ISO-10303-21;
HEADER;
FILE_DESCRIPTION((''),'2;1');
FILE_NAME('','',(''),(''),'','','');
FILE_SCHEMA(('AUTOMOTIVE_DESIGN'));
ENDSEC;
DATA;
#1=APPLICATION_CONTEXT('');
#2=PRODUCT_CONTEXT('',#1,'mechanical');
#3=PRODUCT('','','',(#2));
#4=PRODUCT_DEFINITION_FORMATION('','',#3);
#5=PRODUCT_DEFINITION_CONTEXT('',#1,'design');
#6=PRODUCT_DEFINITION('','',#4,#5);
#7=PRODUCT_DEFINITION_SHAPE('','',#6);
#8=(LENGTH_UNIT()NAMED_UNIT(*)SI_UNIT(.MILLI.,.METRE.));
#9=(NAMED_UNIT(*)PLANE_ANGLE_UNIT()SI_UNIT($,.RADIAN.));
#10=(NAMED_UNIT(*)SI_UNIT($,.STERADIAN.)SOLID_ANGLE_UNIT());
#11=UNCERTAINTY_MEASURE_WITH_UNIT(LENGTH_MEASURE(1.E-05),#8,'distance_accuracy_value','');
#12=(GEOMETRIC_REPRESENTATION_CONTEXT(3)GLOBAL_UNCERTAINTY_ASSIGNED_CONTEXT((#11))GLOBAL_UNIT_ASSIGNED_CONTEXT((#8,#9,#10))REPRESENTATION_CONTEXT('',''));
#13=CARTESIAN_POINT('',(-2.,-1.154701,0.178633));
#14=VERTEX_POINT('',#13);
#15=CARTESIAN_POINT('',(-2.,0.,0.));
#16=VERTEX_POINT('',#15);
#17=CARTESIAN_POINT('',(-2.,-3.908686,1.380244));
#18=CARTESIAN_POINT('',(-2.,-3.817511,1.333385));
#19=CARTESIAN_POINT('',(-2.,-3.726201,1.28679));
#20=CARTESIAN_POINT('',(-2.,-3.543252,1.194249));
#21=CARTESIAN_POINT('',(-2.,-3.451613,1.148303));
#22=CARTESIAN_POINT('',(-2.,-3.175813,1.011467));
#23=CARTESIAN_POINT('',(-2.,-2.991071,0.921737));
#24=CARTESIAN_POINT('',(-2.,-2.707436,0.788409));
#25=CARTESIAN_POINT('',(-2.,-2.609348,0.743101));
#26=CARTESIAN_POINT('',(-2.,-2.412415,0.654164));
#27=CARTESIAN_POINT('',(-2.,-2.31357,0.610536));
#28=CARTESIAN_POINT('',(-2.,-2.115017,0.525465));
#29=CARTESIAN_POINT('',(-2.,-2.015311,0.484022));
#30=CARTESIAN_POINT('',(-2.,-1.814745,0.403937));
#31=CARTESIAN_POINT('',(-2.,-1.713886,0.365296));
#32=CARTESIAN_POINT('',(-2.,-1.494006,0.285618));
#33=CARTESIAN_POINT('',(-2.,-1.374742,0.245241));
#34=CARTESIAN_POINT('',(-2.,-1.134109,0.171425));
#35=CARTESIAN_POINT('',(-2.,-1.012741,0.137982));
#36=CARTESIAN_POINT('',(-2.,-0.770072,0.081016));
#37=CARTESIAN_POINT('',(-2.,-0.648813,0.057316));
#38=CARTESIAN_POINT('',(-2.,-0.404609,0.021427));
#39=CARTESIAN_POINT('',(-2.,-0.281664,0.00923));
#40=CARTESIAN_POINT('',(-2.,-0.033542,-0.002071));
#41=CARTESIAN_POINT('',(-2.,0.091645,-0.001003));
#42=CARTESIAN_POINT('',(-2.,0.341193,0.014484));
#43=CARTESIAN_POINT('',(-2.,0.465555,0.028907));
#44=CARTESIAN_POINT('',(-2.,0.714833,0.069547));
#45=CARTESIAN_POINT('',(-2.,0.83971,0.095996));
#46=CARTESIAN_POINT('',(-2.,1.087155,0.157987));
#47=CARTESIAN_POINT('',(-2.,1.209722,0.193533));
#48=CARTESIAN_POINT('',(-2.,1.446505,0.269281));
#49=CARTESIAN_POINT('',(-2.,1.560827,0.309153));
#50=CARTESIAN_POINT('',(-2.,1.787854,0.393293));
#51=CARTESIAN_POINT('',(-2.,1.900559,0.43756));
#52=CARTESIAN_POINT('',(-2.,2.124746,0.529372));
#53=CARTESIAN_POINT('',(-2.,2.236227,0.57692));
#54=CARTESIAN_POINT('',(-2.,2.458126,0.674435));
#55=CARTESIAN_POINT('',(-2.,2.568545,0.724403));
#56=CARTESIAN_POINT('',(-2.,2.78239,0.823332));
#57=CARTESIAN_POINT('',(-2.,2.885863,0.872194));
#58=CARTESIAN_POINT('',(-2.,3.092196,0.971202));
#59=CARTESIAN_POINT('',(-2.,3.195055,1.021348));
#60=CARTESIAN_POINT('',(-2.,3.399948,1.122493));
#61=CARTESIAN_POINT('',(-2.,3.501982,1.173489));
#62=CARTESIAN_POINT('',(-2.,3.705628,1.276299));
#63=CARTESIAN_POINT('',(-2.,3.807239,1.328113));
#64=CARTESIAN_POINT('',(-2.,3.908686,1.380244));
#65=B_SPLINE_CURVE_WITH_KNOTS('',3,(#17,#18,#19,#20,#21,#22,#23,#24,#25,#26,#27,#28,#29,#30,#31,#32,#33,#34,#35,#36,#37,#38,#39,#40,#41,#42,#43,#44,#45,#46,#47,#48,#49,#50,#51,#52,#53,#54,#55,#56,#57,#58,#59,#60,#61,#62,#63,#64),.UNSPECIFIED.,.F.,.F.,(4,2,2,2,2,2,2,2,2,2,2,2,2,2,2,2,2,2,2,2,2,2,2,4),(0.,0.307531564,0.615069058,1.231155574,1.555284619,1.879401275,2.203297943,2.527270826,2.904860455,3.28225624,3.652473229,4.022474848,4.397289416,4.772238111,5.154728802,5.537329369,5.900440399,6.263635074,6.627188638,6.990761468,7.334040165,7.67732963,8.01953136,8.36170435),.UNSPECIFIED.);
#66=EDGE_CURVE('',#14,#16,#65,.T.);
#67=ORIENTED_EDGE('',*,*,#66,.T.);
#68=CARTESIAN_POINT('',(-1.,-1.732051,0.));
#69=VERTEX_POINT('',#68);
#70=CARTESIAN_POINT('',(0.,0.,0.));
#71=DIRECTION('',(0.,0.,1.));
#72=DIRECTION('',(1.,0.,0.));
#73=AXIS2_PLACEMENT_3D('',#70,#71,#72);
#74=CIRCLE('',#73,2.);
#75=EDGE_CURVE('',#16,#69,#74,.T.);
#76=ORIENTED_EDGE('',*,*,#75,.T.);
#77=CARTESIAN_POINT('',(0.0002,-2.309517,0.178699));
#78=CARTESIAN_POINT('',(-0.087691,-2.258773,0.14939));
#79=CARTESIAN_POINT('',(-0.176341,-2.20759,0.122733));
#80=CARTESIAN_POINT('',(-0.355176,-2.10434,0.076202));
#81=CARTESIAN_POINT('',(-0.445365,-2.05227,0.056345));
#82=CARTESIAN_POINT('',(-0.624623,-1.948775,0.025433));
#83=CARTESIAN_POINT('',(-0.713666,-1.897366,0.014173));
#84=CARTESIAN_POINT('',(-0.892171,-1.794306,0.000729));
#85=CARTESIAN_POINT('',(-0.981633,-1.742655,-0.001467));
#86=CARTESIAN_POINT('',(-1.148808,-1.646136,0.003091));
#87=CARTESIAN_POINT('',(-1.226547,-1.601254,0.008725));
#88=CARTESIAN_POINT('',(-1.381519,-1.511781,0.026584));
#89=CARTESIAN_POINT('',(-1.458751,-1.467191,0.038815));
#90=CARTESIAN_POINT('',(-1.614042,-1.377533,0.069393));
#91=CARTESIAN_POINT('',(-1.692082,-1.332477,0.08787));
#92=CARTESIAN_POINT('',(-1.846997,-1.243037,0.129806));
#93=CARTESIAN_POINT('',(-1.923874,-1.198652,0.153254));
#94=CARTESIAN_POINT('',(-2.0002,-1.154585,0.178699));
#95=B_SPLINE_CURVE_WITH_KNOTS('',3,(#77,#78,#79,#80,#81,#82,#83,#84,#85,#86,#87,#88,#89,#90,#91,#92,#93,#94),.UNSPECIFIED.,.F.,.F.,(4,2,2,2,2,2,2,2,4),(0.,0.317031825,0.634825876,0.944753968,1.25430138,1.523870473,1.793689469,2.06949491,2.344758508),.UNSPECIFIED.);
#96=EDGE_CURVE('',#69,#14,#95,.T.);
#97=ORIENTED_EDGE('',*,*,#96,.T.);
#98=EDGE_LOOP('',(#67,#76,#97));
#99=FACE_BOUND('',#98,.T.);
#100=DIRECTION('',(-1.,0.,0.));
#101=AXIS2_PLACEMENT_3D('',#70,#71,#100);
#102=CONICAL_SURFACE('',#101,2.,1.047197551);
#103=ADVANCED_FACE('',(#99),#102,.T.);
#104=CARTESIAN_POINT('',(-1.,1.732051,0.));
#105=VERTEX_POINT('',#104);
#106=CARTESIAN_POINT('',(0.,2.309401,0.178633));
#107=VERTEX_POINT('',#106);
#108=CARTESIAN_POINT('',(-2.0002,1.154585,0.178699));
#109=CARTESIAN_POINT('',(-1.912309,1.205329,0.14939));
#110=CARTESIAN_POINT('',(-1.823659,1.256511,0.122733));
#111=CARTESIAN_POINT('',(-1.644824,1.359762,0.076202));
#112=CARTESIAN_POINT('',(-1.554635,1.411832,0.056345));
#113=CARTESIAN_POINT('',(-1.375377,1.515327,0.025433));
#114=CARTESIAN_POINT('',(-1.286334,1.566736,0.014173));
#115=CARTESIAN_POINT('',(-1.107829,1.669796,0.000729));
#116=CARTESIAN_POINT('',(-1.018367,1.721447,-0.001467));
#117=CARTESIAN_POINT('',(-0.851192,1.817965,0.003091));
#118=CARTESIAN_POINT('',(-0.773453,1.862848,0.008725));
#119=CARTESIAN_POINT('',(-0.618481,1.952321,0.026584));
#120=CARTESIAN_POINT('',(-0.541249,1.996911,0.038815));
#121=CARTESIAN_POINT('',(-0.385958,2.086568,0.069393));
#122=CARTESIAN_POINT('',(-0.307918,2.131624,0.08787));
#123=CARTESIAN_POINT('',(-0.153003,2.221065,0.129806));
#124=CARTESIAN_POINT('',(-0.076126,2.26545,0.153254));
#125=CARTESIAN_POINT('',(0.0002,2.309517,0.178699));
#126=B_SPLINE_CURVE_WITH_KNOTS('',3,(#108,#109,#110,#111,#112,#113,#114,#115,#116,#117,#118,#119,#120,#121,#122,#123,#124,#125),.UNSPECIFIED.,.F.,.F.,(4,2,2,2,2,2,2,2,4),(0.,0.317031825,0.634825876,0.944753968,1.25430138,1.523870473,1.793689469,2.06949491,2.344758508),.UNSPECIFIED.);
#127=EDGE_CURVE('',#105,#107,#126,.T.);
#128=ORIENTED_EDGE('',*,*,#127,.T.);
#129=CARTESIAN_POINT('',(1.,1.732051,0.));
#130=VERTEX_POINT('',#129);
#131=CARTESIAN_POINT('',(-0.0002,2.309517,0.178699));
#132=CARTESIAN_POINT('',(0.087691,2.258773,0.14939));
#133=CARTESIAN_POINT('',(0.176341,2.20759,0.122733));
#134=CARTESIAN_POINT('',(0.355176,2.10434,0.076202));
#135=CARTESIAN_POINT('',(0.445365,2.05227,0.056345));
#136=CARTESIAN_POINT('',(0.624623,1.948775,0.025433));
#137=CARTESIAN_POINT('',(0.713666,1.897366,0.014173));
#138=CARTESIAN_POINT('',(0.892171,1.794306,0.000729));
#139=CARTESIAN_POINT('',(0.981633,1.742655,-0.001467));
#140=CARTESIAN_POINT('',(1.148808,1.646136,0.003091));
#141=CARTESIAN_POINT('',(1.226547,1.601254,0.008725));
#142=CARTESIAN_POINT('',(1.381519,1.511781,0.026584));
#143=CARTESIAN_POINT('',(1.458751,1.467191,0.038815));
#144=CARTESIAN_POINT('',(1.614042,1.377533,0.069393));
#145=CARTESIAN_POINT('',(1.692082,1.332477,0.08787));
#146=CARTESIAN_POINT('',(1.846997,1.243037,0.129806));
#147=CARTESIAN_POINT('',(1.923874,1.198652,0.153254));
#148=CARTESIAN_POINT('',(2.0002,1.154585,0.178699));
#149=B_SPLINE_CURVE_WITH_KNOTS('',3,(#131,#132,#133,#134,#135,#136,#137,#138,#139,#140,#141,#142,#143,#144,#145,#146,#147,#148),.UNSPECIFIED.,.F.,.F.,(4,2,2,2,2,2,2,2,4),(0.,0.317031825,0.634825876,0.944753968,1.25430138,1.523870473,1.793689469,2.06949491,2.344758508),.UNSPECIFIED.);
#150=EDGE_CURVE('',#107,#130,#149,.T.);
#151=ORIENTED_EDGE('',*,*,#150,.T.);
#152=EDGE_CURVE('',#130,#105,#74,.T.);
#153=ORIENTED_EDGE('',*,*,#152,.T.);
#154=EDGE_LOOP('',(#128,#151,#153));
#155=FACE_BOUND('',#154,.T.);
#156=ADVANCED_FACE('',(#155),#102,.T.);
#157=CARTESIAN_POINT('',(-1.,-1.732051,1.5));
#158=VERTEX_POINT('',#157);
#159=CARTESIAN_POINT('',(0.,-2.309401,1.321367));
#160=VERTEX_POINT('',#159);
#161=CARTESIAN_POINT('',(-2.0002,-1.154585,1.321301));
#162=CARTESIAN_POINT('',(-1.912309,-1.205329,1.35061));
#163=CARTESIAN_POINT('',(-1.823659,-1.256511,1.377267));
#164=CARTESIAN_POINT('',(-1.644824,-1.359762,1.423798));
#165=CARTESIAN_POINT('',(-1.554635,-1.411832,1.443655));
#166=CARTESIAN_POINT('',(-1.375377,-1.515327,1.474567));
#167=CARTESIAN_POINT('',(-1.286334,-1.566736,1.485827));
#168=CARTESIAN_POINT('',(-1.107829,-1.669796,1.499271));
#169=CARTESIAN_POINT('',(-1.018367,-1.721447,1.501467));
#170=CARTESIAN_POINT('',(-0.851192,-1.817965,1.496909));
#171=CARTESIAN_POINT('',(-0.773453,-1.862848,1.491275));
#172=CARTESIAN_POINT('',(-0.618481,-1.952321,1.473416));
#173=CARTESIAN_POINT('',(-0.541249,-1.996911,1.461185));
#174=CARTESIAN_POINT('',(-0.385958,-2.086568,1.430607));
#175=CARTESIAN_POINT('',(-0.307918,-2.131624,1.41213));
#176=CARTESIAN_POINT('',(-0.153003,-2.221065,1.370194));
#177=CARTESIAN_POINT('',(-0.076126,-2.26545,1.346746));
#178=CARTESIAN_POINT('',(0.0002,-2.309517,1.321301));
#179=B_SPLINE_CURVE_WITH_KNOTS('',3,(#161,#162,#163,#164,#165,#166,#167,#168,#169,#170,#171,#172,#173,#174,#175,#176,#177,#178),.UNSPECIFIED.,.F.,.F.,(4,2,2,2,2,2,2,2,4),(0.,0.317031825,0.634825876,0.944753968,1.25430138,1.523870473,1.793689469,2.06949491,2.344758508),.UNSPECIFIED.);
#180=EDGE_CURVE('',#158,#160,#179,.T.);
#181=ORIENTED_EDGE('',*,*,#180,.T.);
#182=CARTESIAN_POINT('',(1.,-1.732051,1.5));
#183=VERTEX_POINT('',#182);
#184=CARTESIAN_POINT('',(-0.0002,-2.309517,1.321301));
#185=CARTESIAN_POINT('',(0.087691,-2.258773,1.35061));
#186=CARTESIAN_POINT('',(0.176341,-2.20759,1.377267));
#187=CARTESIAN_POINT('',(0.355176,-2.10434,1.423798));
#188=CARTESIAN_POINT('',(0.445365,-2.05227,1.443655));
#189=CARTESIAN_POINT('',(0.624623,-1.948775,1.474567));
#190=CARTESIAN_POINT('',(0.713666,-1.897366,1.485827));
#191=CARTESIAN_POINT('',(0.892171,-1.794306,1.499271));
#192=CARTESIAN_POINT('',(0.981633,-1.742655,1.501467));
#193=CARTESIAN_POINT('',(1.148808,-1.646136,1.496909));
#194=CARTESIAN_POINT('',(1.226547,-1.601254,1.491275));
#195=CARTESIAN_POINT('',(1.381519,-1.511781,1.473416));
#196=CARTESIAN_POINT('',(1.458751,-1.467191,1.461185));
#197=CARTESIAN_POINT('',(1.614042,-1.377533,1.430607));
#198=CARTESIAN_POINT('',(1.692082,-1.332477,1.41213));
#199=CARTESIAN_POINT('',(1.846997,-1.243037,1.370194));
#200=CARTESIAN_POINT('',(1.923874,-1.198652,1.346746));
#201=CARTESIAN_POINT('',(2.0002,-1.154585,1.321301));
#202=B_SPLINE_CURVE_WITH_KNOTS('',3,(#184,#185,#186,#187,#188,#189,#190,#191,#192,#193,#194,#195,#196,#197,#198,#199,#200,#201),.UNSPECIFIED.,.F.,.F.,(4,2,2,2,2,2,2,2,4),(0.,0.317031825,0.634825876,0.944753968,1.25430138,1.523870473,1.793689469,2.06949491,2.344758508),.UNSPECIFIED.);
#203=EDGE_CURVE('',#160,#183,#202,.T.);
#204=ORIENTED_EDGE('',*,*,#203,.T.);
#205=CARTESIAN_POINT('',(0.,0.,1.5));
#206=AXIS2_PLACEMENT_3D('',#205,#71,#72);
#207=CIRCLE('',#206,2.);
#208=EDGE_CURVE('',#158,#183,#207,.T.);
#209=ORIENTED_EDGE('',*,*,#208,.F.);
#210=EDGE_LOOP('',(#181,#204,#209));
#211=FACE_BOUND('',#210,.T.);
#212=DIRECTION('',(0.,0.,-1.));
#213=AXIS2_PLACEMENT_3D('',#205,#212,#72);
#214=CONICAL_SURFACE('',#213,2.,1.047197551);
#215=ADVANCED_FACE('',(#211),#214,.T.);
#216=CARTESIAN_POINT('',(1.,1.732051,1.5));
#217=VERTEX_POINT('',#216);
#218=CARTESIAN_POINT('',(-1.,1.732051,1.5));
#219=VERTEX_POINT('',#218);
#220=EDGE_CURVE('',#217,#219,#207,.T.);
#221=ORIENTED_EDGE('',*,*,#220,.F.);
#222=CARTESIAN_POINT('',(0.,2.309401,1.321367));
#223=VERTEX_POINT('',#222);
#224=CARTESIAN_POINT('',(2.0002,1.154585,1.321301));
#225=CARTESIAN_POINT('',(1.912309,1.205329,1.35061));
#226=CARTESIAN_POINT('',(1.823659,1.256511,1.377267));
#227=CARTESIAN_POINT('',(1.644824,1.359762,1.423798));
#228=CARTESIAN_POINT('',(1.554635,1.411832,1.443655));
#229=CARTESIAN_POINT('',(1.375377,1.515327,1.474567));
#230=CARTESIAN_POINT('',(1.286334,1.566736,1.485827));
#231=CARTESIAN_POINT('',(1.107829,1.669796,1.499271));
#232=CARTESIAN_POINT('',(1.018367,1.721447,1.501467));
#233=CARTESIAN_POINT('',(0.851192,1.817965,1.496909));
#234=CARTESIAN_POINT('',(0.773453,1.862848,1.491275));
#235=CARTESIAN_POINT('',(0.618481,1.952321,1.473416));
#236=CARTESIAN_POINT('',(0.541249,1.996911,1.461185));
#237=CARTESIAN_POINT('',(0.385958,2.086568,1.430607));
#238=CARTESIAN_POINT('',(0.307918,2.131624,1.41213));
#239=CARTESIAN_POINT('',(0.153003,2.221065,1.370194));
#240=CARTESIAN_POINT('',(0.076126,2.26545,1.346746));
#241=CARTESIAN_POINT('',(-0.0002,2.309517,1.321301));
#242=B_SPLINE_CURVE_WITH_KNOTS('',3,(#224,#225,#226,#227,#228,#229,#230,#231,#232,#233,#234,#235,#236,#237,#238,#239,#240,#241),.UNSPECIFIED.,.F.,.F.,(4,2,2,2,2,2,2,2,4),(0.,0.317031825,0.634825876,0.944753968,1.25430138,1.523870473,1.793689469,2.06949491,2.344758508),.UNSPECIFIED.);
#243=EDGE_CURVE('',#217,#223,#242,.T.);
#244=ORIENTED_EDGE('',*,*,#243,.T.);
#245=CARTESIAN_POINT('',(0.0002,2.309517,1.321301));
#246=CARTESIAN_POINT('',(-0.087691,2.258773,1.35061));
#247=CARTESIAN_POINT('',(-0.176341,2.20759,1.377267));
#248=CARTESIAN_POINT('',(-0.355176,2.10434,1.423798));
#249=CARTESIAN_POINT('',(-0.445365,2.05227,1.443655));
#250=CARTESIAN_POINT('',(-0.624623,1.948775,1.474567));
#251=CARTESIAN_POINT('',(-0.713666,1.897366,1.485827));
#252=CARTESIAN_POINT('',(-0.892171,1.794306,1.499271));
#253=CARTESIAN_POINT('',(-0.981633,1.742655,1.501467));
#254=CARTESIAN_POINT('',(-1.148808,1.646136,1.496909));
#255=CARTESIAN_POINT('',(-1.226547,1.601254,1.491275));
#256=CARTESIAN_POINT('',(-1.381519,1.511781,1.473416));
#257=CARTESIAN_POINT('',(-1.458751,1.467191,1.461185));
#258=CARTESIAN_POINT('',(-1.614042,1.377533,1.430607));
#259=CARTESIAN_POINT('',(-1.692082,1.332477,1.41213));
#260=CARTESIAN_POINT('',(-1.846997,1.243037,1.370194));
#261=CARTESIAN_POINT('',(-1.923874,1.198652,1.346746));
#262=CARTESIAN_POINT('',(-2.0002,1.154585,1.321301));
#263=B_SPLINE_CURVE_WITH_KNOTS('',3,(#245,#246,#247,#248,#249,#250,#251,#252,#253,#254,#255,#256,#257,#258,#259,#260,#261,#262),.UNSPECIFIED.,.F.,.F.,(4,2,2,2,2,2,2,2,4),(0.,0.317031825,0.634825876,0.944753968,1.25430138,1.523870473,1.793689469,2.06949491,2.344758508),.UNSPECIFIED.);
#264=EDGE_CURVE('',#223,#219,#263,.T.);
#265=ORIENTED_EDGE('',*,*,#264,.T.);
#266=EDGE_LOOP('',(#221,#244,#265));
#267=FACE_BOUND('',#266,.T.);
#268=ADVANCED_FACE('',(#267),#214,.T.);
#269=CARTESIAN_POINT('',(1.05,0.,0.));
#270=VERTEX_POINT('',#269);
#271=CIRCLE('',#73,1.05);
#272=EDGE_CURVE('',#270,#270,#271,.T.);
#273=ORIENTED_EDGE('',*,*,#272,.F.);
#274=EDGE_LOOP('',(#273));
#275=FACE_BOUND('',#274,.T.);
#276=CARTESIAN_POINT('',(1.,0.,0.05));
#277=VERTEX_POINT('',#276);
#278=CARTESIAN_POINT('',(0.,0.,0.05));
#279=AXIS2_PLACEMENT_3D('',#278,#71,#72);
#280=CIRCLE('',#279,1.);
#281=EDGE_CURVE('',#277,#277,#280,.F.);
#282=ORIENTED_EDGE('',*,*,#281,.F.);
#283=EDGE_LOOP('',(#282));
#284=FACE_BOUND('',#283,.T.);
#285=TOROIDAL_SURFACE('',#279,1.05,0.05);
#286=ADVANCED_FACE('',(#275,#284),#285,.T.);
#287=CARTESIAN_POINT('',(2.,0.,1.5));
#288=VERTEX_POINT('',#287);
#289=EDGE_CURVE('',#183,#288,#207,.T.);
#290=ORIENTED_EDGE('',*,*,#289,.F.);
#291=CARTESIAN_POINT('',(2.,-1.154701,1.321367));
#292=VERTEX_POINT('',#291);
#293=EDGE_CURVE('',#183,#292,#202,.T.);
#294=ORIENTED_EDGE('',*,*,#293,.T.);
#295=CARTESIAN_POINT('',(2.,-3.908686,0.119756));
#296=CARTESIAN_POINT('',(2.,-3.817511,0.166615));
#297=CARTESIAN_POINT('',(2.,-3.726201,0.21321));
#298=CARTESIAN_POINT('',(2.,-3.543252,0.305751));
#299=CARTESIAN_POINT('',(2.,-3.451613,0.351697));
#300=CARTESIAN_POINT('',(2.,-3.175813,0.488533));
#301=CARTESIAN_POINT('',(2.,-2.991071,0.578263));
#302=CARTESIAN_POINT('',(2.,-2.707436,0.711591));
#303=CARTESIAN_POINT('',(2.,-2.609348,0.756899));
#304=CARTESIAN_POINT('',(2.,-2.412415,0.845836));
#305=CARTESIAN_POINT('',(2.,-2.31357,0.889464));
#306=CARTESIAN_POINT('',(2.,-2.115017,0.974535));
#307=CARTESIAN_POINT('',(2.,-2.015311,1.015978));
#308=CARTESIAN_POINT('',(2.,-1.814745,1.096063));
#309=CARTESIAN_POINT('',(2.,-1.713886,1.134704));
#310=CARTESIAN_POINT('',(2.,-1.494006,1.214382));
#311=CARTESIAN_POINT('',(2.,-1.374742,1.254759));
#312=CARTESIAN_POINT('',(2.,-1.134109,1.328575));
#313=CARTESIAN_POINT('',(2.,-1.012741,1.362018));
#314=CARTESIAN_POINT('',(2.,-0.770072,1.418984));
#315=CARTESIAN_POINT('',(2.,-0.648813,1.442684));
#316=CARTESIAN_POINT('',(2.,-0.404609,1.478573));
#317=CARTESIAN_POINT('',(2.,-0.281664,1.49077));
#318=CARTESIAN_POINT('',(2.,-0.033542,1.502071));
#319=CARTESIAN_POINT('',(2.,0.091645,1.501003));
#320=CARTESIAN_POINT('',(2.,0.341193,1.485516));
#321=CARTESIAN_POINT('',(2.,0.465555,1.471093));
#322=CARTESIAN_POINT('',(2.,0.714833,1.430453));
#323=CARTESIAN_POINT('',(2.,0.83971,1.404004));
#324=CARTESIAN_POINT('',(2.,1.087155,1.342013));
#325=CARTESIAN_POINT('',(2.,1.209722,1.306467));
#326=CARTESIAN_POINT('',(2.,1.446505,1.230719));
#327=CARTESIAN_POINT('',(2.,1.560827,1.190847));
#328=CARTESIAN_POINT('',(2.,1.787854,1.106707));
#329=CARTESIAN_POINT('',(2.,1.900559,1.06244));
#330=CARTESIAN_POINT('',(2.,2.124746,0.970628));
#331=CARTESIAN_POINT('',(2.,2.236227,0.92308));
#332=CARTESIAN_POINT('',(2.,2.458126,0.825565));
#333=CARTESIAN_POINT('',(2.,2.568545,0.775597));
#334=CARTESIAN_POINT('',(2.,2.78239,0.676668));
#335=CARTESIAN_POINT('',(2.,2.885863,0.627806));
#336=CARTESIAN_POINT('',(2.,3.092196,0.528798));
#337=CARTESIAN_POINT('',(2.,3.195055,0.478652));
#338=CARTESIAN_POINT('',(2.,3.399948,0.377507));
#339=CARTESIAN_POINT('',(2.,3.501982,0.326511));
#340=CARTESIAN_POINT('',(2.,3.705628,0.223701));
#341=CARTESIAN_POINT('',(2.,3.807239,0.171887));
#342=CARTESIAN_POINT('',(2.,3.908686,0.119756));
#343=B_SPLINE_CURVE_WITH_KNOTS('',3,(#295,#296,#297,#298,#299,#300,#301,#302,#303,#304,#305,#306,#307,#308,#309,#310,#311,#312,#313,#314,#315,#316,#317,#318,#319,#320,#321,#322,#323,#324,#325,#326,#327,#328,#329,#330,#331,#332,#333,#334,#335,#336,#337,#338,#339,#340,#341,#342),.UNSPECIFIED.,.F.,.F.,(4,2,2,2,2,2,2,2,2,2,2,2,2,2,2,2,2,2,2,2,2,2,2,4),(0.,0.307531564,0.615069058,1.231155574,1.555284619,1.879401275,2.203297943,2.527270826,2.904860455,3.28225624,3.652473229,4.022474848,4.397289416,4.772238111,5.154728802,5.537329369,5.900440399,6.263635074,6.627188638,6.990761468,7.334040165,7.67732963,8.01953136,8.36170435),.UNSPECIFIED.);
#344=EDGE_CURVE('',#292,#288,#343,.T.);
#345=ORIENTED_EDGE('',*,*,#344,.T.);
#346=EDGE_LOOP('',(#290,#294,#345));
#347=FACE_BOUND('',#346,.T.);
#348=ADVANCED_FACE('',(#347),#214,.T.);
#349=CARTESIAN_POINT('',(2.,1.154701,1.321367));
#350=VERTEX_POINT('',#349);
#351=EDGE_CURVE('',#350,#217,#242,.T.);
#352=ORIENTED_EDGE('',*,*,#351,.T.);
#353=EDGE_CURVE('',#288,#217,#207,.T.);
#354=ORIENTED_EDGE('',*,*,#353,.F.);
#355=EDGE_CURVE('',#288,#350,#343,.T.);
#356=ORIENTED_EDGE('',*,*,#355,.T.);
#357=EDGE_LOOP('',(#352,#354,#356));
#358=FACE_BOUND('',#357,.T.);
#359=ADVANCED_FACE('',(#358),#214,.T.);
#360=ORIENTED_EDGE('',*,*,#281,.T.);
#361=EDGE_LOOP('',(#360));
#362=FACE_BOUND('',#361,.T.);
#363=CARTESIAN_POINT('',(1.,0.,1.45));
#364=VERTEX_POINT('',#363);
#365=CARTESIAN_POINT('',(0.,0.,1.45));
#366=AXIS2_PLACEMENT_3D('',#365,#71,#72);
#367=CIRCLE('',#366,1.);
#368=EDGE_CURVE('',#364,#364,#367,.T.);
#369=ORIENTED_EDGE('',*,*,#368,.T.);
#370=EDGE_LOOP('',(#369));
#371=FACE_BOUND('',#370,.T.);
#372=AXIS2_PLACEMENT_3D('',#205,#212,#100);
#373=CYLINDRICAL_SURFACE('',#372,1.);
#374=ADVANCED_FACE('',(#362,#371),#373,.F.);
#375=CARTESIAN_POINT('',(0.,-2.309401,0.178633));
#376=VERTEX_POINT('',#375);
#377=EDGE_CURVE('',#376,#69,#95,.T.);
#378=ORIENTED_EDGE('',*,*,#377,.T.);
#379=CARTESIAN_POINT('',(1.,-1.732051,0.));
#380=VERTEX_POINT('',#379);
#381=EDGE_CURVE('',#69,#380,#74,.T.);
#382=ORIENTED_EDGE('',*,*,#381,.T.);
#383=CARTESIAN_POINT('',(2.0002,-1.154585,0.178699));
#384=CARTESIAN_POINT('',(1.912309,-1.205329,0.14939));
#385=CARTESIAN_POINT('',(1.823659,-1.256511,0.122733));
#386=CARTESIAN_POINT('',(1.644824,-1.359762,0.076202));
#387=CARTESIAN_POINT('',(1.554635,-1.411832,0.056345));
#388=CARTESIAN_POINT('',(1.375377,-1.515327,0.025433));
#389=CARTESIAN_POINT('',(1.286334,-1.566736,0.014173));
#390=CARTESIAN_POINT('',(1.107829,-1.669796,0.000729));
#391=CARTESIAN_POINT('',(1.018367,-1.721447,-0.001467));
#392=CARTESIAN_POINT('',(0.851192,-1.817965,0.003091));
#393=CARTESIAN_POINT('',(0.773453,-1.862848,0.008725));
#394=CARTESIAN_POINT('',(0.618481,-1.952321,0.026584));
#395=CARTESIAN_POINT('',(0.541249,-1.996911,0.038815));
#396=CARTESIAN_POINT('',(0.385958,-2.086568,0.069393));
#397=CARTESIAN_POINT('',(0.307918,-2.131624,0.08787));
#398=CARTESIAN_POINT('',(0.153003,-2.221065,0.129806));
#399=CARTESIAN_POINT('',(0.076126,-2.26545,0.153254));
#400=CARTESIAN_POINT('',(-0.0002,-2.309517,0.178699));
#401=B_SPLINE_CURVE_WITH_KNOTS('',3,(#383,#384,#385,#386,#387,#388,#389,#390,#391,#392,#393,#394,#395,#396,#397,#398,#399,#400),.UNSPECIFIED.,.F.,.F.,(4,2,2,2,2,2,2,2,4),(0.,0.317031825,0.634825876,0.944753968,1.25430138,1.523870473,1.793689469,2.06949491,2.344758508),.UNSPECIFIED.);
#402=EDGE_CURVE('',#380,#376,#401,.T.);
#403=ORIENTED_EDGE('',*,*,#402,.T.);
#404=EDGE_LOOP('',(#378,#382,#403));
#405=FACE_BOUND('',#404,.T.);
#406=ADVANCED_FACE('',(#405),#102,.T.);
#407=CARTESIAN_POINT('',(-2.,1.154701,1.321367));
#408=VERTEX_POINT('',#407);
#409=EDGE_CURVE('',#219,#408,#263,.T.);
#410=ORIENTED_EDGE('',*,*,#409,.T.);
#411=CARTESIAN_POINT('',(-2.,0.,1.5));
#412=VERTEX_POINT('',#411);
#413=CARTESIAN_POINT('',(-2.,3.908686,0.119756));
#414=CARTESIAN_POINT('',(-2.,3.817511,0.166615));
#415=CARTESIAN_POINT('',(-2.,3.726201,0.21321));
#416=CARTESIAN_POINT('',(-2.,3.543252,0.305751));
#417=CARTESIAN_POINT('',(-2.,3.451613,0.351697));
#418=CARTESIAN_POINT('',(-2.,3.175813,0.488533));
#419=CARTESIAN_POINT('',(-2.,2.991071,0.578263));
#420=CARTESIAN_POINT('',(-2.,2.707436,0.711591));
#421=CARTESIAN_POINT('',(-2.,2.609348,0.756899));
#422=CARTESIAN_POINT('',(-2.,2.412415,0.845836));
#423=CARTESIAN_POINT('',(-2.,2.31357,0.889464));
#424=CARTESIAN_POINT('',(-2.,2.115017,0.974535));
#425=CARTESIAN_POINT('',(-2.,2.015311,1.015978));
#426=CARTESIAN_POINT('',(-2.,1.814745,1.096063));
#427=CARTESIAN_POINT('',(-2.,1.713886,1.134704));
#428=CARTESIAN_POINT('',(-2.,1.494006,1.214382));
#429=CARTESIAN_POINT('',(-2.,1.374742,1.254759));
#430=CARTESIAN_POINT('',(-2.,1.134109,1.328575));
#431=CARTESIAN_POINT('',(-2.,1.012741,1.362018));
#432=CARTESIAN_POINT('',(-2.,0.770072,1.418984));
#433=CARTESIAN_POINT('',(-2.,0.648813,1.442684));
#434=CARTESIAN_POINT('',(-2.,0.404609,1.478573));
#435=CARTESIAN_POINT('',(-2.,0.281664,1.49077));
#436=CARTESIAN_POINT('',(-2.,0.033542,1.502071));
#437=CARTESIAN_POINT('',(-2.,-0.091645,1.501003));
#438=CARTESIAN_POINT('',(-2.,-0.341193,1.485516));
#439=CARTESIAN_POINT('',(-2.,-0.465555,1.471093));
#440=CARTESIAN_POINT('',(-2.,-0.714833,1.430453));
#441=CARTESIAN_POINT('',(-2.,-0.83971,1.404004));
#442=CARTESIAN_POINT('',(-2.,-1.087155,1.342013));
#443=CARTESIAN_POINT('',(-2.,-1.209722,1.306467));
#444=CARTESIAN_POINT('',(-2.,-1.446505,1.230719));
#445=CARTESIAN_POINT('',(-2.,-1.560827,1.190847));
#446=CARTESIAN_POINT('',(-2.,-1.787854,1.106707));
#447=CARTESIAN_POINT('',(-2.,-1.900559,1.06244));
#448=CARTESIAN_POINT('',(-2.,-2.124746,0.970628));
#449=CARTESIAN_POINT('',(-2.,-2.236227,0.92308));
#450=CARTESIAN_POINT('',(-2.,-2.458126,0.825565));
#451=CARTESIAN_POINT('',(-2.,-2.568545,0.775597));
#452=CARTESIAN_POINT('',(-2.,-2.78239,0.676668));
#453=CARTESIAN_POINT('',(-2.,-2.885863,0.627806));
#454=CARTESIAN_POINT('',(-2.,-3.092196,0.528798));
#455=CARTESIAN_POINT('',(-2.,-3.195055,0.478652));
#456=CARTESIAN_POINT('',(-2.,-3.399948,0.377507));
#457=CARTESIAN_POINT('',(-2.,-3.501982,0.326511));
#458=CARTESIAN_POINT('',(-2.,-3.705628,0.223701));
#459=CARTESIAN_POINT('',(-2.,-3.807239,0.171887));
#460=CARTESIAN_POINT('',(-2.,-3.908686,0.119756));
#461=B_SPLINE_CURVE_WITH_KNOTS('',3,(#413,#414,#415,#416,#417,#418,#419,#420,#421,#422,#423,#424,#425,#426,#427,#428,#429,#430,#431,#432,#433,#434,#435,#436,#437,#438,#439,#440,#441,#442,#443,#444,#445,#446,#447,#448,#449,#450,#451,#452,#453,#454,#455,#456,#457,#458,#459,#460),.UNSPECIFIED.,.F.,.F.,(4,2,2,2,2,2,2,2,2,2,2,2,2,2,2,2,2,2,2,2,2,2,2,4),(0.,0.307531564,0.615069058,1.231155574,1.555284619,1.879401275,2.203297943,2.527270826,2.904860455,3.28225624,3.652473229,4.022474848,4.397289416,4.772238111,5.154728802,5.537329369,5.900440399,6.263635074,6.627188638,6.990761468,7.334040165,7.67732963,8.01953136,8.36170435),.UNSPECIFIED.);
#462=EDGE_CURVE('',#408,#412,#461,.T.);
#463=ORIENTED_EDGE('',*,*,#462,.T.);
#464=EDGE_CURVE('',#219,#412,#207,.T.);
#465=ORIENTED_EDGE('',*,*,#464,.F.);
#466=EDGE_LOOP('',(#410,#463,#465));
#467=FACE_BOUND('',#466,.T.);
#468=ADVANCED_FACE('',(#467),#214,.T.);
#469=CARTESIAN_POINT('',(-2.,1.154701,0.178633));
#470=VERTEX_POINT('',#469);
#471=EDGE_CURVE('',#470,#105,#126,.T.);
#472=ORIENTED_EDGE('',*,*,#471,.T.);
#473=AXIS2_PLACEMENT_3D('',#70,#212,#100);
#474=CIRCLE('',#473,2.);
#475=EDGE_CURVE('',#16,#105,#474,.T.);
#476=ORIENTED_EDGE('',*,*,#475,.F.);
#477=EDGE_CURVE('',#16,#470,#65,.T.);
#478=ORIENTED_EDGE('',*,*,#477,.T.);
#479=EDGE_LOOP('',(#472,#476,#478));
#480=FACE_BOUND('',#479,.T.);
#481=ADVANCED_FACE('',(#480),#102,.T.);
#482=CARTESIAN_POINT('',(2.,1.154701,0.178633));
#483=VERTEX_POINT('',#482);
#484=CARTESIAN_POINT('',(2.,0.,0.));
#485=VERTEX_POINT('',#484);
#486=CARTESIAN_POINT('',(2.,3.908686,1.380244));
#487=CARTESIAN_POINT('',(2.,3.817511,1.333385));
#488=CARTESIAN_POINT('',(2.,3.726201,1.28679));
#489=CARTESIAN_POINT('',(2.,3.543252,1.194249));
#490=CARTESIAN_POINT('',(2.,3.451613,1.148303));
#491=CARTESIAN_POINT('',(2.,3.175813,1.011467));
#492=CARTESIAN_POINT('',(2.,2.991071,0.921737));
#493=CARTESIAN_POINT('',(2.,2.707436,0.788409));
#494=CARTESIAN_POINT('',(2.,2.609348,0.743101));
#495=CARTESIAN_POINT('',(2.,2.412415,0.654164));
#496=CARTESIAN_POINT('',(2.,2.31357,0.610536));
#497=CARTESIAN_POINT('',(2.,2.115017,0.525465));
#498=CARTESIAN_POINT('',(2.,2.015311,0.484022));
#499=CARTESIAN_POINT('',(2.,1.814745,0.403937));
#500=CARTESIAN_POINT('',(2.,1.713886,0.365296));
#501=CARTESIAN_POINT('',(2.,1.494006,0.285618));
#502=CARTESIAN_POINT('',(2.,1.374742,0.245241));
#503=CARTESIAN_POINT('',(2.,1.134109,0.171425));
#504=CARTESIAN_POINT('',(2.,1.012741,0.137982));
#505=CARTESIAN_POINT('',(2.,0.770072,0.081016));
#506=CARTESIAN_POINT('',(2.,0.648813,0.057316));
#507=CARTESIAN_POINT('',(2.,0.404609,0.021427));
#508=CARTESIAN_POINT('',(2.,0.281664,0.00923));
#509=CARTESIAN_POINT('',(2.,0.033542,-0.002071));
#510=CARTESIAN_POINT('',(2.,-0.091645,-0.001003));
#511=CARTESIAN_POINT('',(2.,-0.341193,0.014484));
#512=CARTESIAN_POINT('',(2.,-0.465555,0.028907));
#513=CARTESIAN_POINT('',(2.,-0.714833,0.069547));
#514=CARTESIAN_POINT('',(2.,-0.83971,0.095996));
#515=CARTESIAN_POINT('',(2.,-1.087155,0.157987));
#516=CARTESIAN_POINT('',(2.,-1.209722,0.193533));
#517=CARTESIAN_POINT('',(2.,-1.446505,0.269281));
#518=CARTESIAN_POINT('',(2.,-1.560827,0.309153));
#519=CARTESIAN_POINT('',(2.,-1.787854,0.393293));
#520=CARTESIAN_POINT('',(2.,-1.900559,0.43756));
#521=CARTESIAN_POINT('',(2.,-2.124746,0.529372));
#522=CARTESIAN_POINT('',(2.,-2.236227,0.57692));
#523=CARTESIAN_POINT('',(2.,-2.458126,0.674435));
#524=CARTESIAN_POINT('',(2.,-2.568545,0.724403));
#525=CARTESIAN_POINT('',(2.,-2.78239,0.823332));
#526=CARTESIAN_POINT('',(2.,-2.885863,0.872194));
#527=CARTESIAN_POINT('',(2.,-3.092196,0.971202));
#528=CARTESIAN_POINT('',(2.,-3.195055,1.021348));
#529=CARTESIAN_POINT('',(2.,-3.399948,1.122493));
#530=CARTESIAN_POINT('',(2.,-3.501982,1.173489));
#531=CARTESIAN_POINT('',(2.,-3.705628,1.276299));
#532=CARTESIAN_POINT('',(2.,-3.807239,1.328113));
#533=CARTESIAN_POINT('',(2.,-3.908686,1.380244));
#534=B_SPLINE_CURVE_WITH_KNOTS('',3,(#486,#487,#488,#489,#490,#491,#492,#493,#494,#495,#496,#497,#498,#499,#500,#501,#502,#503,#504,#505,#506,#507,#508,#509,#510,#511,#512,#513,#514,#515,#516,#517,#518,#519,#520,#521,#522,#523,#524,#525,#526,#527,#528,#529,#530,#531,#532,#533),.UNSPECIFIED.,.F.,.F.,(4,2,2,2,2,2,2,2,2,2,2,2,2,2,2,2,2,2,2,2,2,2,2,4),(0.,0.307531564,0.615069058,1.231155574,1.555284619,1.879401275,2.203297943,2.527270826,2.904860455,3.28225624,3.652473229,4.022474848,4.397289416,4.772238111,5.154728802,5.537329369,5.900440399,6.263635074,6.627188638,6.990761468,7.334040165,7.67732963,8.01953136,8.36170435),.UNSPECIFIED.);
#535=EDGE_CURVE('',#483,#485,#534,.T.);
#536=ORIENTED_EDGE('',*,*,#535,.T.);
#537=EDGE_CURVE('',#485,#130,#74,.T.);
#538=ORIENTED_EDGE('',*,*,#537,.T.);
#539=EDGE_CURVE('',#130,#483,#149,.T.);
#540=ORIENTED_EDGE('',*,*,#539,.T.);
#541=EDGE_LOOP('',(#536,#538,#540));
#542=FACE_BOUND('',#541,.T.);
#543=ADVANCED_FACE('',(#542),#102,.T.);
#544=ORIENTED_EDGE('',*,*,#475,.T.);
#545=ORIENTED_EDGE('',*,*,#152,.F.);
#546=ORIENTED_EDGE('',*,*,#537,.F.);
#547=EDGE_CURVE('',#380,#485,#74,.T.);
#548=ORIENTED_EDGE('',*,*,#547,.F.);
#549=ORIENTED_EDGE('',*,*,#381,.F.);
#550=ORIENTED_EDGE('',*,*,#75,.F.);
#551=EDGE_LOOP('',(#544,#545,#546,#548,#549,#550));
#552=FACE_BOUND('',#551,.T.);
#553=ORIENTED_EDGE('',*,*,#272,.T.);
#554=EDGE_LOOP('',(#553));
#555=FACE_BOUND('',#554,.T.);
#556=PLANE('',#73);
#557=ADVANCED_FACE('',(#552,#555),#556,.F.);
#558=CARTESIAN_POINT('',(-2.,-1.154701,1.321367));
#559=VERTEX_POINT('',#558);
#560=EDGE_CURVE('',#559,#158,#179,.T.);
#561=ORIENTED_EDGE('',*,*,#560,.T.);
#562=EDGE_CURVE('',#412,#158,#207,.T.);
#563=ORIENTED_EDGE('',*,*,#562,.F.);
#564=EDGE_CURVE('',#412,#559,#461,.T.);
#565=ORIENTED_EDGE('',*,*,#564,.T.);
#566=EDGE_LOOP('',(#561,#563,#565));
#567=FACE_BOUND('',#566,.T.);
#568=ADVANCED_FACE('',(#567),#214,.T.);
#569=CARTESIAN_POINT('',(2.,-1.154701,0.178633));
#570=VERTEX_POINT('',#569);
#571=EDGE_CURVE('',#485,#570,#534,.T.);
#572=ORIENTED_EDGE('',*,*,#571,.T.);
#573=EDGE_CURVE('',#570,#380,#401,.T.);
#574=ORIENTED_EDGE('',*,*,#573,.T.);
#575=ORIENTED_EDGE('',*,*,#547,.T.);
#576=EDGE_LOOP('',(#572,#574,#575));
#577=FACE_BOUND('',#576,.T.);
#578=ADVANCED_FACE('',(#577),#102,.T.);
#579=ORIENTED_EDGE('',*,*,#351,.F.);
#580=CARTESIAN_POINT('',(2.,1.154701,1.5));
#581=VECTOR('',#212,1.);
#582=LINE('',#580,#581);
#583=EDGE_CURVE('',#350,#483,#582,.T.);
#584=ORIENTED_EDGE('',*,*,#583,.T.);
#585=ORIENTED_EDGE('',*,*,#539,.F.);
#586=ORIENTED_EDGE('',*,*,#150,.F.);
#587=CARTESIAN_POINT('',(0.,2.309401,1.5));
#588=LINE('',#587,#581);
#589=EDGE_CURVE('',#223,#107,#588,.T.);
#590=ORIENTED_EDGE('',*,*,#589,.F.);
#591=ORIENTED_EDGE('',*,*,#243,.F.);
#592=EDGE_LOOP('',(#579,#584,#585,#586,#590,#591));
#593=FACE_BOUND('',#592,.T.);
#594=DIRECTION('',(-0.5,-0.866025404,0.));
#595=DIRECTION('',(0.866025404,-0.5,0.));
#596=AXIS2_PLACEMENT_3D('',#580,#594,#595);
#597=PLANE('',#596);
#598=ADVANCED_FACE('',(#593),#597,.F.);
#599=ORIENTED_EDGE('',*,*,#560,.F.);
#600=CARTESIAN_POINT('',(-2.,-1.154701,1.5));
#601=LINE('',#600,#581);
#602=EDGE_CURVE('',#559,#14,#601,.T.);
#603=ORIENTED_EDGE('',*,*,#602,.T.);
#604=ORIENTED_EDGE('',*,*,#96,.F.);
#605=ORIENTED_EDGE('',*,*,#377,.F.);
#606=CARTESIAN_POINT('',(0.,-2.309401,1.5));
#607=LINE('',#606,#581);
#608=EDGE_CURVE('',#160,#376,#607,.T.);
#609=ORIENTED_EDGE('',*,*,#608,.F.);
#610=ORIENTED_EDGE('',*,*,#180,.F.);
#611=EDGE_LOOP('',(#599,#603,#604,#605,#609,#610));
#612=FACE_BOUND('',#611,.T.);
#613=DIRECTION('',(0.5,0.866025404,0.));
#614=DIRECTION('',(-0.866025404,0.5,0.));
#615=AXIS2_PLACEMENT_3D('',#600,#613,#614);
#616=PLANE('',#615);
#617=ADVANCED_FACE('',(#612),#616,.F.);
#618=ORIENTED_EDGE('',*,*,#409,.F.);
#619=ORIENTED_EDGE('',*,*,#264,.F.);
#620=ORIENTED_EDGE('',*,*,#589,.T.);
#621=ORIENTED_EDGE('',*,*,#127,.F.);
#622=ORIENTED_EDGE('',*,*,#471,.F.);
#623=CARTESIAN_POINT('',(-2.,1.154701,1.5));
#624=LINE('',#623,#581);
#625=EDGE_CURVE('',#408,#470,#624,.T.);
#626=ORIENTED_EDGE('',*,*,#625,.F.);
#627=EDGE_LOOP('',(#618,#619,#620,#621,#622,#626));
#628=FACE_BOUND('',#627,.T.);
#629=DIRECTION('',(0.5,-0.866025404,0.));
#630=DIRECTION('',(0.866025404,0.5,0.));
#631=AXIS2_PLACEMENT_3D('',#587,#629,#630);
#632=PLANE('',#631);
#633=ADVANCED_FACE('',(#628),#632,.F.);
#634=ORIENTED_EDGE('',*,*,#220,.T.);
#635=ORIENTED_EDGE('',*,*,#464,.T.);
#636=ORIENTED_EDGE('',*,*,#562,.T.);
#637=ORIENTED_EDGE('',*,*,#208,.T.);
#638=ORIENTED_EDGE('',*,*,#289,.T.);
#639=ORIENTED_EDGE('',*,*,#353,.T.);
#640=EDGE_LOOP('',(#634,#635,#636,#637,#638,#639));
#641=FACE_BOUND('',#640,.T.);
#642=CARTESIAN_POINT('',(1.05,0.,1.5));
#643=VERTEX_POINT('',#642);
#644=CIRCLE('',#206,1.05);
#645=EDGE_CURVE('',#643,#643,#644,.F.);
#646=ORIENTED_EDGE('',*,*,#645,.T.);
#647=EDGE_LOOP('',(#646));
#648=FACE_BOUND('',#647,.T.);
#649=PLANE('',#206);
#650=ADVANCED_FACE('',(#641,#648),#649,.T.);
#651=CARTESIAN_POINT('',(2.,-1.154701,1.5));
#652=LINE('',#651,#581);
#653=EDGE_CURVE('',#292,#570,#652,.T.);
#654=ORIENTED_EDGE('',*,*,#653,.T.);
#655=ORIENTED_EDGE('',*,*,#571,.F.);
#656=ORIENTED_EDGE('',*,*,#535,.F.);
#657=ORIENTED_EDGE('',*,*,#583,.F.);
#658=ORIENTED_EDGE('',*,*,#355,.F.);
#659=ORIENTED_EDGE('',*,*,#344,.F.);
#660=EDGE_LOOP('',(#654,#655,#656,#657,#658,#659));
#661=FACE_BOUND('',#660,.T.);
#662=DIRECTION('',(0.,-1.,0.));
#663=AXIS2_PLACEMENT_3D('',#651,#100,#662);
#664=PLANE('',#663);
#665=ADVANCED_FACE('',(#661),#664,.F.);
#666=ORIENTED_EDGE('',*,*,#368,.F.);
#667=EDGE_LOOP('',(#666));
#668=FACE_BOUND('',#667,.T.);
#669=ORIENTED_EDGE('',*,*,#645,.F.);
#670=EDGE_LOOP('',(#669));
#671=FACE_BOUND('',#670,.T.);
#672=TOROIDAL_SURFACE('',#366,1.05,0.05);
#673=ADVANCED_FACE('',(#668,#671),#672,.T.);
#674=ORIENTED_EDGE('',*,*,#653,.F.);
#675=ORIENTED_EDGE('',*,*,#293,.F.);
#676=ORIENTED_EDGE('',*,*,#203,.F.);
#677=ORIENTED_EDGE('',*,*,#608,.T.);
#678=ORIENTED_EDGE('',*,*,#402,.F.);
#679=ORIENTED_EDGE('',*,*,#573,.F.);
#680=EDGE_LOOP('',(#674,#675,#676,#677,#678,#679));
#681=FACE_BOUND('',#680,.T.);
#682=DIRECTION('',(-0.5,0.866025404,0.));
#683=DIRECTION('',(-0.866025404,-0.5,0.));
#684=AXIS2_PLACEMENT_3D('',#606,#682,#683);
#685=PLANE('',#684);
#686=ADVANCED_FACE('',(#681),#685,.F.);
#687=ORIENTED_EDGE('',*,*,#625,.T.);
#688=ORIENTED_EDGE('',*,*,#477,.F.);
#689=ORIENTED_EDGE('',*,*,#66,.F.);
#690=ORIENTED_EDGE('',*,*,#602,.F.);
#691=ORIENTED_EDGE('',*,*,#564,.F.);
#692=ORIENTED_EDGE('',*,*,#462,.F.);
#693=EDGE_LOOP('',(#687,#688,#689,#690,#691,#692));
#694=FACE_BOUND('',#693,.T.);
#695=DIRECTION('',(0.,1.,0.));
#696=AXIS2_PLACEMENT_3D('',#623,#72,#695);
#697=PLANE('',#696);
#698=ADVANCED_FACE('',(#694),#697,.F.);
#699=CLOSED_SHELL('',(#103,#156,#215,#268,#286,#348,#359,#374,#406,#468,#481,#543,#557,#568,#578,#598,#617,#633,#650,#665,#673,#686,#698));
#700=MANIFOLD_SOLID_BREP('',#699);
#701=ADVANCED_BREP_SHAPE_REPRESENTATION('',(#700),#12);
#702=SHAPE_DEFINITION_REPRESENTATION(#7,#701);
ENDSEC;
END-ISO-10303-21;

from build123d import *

# Parameters (mm, degrees)
SKETCH1_R           = 1
BOSS_EXTRUDE1_DEPTH = 1.5
SKETCH2_OUTSIDE_W   = 14.186
SKETCH2_OUTSIDE_H   = 14.804
SKETCH2_OUTSIDE_R   = 2
CUT_EXTRUDE1_DEPTH  = 2
CUT_EXTRUDE1_TAPER  = 60
SKETCH3_OUTSIDE_W   = 14.186
SKETCH3_OUTSIDE_H   = 14.804
SKETCH3_OUTSIDE_R   = 2
CUT_EXTRUDE2_DEPTH  = 2
CUT_EXTRUDE2_TAPER  = 60
FILLET1_R           = 0.05


with BuildPart() as part:
    # Sketch1 → Boss-Extrude1 (new body)
    with BuildSketch(Plane.XY):
        Polygon((0, -2.309401077), (2, -1.154700538), (2, 1.154700538), (0, 2.309401077), (-2, 1.154700538), (-2, -1.154700538), align=None)
        Circle(SKETCH1_R, mode=Mode.SUBTRACT)
    extrude(amount=BOSS_EXTRUDE1_DEPTH)

    # Sketch2 outside → Cut-Extrude1 (cut)
    with BuildSketch(Plane.XY.offset(1.5)):
        Rectangle(SKETCH2_OUTSIDE_W, SKETCH2_OUTSIDE_H)
        Circle(SKETCH2_OUTSIDE_R, mode=Mode.SUBTRACT)
    extrude(amount=-CUT_EXTRUDE1_DEPTH, taper=CUT_EXTRUDE1_TAPER, mode=Mode.SUBTRACT)

    # Sketch3 outside → Cut-Extrude2 (cut)
    with BuildSketch(Plane(origin=(0, 0, 0), x_dir=(-1, 0, 0), z_dir=(0, 0, -1))):
        Rectangle(SKETCH3_OUTSIDE_W, SKETCH3_OUTSIDE_H)
        Circle(SKETCH3_OUTSIDE_R, mode=Mode.SUBTRACT)
    extrude(amount=-CUT_EXTRUDE2_DEPTH, taper=CUT_EXTRUDE2_TAPER, mode=Mode.SUBTRACT)

    # Fillet1
    fillet1_edges = [part.edges().sort_by_distance(p)[0] for p in [
        (-1, 0, 0),
        (-1, 0, 1.5),
    ]]
    fillet(fillet1_edges, radius=FILLET1_R)


solid = part.part
